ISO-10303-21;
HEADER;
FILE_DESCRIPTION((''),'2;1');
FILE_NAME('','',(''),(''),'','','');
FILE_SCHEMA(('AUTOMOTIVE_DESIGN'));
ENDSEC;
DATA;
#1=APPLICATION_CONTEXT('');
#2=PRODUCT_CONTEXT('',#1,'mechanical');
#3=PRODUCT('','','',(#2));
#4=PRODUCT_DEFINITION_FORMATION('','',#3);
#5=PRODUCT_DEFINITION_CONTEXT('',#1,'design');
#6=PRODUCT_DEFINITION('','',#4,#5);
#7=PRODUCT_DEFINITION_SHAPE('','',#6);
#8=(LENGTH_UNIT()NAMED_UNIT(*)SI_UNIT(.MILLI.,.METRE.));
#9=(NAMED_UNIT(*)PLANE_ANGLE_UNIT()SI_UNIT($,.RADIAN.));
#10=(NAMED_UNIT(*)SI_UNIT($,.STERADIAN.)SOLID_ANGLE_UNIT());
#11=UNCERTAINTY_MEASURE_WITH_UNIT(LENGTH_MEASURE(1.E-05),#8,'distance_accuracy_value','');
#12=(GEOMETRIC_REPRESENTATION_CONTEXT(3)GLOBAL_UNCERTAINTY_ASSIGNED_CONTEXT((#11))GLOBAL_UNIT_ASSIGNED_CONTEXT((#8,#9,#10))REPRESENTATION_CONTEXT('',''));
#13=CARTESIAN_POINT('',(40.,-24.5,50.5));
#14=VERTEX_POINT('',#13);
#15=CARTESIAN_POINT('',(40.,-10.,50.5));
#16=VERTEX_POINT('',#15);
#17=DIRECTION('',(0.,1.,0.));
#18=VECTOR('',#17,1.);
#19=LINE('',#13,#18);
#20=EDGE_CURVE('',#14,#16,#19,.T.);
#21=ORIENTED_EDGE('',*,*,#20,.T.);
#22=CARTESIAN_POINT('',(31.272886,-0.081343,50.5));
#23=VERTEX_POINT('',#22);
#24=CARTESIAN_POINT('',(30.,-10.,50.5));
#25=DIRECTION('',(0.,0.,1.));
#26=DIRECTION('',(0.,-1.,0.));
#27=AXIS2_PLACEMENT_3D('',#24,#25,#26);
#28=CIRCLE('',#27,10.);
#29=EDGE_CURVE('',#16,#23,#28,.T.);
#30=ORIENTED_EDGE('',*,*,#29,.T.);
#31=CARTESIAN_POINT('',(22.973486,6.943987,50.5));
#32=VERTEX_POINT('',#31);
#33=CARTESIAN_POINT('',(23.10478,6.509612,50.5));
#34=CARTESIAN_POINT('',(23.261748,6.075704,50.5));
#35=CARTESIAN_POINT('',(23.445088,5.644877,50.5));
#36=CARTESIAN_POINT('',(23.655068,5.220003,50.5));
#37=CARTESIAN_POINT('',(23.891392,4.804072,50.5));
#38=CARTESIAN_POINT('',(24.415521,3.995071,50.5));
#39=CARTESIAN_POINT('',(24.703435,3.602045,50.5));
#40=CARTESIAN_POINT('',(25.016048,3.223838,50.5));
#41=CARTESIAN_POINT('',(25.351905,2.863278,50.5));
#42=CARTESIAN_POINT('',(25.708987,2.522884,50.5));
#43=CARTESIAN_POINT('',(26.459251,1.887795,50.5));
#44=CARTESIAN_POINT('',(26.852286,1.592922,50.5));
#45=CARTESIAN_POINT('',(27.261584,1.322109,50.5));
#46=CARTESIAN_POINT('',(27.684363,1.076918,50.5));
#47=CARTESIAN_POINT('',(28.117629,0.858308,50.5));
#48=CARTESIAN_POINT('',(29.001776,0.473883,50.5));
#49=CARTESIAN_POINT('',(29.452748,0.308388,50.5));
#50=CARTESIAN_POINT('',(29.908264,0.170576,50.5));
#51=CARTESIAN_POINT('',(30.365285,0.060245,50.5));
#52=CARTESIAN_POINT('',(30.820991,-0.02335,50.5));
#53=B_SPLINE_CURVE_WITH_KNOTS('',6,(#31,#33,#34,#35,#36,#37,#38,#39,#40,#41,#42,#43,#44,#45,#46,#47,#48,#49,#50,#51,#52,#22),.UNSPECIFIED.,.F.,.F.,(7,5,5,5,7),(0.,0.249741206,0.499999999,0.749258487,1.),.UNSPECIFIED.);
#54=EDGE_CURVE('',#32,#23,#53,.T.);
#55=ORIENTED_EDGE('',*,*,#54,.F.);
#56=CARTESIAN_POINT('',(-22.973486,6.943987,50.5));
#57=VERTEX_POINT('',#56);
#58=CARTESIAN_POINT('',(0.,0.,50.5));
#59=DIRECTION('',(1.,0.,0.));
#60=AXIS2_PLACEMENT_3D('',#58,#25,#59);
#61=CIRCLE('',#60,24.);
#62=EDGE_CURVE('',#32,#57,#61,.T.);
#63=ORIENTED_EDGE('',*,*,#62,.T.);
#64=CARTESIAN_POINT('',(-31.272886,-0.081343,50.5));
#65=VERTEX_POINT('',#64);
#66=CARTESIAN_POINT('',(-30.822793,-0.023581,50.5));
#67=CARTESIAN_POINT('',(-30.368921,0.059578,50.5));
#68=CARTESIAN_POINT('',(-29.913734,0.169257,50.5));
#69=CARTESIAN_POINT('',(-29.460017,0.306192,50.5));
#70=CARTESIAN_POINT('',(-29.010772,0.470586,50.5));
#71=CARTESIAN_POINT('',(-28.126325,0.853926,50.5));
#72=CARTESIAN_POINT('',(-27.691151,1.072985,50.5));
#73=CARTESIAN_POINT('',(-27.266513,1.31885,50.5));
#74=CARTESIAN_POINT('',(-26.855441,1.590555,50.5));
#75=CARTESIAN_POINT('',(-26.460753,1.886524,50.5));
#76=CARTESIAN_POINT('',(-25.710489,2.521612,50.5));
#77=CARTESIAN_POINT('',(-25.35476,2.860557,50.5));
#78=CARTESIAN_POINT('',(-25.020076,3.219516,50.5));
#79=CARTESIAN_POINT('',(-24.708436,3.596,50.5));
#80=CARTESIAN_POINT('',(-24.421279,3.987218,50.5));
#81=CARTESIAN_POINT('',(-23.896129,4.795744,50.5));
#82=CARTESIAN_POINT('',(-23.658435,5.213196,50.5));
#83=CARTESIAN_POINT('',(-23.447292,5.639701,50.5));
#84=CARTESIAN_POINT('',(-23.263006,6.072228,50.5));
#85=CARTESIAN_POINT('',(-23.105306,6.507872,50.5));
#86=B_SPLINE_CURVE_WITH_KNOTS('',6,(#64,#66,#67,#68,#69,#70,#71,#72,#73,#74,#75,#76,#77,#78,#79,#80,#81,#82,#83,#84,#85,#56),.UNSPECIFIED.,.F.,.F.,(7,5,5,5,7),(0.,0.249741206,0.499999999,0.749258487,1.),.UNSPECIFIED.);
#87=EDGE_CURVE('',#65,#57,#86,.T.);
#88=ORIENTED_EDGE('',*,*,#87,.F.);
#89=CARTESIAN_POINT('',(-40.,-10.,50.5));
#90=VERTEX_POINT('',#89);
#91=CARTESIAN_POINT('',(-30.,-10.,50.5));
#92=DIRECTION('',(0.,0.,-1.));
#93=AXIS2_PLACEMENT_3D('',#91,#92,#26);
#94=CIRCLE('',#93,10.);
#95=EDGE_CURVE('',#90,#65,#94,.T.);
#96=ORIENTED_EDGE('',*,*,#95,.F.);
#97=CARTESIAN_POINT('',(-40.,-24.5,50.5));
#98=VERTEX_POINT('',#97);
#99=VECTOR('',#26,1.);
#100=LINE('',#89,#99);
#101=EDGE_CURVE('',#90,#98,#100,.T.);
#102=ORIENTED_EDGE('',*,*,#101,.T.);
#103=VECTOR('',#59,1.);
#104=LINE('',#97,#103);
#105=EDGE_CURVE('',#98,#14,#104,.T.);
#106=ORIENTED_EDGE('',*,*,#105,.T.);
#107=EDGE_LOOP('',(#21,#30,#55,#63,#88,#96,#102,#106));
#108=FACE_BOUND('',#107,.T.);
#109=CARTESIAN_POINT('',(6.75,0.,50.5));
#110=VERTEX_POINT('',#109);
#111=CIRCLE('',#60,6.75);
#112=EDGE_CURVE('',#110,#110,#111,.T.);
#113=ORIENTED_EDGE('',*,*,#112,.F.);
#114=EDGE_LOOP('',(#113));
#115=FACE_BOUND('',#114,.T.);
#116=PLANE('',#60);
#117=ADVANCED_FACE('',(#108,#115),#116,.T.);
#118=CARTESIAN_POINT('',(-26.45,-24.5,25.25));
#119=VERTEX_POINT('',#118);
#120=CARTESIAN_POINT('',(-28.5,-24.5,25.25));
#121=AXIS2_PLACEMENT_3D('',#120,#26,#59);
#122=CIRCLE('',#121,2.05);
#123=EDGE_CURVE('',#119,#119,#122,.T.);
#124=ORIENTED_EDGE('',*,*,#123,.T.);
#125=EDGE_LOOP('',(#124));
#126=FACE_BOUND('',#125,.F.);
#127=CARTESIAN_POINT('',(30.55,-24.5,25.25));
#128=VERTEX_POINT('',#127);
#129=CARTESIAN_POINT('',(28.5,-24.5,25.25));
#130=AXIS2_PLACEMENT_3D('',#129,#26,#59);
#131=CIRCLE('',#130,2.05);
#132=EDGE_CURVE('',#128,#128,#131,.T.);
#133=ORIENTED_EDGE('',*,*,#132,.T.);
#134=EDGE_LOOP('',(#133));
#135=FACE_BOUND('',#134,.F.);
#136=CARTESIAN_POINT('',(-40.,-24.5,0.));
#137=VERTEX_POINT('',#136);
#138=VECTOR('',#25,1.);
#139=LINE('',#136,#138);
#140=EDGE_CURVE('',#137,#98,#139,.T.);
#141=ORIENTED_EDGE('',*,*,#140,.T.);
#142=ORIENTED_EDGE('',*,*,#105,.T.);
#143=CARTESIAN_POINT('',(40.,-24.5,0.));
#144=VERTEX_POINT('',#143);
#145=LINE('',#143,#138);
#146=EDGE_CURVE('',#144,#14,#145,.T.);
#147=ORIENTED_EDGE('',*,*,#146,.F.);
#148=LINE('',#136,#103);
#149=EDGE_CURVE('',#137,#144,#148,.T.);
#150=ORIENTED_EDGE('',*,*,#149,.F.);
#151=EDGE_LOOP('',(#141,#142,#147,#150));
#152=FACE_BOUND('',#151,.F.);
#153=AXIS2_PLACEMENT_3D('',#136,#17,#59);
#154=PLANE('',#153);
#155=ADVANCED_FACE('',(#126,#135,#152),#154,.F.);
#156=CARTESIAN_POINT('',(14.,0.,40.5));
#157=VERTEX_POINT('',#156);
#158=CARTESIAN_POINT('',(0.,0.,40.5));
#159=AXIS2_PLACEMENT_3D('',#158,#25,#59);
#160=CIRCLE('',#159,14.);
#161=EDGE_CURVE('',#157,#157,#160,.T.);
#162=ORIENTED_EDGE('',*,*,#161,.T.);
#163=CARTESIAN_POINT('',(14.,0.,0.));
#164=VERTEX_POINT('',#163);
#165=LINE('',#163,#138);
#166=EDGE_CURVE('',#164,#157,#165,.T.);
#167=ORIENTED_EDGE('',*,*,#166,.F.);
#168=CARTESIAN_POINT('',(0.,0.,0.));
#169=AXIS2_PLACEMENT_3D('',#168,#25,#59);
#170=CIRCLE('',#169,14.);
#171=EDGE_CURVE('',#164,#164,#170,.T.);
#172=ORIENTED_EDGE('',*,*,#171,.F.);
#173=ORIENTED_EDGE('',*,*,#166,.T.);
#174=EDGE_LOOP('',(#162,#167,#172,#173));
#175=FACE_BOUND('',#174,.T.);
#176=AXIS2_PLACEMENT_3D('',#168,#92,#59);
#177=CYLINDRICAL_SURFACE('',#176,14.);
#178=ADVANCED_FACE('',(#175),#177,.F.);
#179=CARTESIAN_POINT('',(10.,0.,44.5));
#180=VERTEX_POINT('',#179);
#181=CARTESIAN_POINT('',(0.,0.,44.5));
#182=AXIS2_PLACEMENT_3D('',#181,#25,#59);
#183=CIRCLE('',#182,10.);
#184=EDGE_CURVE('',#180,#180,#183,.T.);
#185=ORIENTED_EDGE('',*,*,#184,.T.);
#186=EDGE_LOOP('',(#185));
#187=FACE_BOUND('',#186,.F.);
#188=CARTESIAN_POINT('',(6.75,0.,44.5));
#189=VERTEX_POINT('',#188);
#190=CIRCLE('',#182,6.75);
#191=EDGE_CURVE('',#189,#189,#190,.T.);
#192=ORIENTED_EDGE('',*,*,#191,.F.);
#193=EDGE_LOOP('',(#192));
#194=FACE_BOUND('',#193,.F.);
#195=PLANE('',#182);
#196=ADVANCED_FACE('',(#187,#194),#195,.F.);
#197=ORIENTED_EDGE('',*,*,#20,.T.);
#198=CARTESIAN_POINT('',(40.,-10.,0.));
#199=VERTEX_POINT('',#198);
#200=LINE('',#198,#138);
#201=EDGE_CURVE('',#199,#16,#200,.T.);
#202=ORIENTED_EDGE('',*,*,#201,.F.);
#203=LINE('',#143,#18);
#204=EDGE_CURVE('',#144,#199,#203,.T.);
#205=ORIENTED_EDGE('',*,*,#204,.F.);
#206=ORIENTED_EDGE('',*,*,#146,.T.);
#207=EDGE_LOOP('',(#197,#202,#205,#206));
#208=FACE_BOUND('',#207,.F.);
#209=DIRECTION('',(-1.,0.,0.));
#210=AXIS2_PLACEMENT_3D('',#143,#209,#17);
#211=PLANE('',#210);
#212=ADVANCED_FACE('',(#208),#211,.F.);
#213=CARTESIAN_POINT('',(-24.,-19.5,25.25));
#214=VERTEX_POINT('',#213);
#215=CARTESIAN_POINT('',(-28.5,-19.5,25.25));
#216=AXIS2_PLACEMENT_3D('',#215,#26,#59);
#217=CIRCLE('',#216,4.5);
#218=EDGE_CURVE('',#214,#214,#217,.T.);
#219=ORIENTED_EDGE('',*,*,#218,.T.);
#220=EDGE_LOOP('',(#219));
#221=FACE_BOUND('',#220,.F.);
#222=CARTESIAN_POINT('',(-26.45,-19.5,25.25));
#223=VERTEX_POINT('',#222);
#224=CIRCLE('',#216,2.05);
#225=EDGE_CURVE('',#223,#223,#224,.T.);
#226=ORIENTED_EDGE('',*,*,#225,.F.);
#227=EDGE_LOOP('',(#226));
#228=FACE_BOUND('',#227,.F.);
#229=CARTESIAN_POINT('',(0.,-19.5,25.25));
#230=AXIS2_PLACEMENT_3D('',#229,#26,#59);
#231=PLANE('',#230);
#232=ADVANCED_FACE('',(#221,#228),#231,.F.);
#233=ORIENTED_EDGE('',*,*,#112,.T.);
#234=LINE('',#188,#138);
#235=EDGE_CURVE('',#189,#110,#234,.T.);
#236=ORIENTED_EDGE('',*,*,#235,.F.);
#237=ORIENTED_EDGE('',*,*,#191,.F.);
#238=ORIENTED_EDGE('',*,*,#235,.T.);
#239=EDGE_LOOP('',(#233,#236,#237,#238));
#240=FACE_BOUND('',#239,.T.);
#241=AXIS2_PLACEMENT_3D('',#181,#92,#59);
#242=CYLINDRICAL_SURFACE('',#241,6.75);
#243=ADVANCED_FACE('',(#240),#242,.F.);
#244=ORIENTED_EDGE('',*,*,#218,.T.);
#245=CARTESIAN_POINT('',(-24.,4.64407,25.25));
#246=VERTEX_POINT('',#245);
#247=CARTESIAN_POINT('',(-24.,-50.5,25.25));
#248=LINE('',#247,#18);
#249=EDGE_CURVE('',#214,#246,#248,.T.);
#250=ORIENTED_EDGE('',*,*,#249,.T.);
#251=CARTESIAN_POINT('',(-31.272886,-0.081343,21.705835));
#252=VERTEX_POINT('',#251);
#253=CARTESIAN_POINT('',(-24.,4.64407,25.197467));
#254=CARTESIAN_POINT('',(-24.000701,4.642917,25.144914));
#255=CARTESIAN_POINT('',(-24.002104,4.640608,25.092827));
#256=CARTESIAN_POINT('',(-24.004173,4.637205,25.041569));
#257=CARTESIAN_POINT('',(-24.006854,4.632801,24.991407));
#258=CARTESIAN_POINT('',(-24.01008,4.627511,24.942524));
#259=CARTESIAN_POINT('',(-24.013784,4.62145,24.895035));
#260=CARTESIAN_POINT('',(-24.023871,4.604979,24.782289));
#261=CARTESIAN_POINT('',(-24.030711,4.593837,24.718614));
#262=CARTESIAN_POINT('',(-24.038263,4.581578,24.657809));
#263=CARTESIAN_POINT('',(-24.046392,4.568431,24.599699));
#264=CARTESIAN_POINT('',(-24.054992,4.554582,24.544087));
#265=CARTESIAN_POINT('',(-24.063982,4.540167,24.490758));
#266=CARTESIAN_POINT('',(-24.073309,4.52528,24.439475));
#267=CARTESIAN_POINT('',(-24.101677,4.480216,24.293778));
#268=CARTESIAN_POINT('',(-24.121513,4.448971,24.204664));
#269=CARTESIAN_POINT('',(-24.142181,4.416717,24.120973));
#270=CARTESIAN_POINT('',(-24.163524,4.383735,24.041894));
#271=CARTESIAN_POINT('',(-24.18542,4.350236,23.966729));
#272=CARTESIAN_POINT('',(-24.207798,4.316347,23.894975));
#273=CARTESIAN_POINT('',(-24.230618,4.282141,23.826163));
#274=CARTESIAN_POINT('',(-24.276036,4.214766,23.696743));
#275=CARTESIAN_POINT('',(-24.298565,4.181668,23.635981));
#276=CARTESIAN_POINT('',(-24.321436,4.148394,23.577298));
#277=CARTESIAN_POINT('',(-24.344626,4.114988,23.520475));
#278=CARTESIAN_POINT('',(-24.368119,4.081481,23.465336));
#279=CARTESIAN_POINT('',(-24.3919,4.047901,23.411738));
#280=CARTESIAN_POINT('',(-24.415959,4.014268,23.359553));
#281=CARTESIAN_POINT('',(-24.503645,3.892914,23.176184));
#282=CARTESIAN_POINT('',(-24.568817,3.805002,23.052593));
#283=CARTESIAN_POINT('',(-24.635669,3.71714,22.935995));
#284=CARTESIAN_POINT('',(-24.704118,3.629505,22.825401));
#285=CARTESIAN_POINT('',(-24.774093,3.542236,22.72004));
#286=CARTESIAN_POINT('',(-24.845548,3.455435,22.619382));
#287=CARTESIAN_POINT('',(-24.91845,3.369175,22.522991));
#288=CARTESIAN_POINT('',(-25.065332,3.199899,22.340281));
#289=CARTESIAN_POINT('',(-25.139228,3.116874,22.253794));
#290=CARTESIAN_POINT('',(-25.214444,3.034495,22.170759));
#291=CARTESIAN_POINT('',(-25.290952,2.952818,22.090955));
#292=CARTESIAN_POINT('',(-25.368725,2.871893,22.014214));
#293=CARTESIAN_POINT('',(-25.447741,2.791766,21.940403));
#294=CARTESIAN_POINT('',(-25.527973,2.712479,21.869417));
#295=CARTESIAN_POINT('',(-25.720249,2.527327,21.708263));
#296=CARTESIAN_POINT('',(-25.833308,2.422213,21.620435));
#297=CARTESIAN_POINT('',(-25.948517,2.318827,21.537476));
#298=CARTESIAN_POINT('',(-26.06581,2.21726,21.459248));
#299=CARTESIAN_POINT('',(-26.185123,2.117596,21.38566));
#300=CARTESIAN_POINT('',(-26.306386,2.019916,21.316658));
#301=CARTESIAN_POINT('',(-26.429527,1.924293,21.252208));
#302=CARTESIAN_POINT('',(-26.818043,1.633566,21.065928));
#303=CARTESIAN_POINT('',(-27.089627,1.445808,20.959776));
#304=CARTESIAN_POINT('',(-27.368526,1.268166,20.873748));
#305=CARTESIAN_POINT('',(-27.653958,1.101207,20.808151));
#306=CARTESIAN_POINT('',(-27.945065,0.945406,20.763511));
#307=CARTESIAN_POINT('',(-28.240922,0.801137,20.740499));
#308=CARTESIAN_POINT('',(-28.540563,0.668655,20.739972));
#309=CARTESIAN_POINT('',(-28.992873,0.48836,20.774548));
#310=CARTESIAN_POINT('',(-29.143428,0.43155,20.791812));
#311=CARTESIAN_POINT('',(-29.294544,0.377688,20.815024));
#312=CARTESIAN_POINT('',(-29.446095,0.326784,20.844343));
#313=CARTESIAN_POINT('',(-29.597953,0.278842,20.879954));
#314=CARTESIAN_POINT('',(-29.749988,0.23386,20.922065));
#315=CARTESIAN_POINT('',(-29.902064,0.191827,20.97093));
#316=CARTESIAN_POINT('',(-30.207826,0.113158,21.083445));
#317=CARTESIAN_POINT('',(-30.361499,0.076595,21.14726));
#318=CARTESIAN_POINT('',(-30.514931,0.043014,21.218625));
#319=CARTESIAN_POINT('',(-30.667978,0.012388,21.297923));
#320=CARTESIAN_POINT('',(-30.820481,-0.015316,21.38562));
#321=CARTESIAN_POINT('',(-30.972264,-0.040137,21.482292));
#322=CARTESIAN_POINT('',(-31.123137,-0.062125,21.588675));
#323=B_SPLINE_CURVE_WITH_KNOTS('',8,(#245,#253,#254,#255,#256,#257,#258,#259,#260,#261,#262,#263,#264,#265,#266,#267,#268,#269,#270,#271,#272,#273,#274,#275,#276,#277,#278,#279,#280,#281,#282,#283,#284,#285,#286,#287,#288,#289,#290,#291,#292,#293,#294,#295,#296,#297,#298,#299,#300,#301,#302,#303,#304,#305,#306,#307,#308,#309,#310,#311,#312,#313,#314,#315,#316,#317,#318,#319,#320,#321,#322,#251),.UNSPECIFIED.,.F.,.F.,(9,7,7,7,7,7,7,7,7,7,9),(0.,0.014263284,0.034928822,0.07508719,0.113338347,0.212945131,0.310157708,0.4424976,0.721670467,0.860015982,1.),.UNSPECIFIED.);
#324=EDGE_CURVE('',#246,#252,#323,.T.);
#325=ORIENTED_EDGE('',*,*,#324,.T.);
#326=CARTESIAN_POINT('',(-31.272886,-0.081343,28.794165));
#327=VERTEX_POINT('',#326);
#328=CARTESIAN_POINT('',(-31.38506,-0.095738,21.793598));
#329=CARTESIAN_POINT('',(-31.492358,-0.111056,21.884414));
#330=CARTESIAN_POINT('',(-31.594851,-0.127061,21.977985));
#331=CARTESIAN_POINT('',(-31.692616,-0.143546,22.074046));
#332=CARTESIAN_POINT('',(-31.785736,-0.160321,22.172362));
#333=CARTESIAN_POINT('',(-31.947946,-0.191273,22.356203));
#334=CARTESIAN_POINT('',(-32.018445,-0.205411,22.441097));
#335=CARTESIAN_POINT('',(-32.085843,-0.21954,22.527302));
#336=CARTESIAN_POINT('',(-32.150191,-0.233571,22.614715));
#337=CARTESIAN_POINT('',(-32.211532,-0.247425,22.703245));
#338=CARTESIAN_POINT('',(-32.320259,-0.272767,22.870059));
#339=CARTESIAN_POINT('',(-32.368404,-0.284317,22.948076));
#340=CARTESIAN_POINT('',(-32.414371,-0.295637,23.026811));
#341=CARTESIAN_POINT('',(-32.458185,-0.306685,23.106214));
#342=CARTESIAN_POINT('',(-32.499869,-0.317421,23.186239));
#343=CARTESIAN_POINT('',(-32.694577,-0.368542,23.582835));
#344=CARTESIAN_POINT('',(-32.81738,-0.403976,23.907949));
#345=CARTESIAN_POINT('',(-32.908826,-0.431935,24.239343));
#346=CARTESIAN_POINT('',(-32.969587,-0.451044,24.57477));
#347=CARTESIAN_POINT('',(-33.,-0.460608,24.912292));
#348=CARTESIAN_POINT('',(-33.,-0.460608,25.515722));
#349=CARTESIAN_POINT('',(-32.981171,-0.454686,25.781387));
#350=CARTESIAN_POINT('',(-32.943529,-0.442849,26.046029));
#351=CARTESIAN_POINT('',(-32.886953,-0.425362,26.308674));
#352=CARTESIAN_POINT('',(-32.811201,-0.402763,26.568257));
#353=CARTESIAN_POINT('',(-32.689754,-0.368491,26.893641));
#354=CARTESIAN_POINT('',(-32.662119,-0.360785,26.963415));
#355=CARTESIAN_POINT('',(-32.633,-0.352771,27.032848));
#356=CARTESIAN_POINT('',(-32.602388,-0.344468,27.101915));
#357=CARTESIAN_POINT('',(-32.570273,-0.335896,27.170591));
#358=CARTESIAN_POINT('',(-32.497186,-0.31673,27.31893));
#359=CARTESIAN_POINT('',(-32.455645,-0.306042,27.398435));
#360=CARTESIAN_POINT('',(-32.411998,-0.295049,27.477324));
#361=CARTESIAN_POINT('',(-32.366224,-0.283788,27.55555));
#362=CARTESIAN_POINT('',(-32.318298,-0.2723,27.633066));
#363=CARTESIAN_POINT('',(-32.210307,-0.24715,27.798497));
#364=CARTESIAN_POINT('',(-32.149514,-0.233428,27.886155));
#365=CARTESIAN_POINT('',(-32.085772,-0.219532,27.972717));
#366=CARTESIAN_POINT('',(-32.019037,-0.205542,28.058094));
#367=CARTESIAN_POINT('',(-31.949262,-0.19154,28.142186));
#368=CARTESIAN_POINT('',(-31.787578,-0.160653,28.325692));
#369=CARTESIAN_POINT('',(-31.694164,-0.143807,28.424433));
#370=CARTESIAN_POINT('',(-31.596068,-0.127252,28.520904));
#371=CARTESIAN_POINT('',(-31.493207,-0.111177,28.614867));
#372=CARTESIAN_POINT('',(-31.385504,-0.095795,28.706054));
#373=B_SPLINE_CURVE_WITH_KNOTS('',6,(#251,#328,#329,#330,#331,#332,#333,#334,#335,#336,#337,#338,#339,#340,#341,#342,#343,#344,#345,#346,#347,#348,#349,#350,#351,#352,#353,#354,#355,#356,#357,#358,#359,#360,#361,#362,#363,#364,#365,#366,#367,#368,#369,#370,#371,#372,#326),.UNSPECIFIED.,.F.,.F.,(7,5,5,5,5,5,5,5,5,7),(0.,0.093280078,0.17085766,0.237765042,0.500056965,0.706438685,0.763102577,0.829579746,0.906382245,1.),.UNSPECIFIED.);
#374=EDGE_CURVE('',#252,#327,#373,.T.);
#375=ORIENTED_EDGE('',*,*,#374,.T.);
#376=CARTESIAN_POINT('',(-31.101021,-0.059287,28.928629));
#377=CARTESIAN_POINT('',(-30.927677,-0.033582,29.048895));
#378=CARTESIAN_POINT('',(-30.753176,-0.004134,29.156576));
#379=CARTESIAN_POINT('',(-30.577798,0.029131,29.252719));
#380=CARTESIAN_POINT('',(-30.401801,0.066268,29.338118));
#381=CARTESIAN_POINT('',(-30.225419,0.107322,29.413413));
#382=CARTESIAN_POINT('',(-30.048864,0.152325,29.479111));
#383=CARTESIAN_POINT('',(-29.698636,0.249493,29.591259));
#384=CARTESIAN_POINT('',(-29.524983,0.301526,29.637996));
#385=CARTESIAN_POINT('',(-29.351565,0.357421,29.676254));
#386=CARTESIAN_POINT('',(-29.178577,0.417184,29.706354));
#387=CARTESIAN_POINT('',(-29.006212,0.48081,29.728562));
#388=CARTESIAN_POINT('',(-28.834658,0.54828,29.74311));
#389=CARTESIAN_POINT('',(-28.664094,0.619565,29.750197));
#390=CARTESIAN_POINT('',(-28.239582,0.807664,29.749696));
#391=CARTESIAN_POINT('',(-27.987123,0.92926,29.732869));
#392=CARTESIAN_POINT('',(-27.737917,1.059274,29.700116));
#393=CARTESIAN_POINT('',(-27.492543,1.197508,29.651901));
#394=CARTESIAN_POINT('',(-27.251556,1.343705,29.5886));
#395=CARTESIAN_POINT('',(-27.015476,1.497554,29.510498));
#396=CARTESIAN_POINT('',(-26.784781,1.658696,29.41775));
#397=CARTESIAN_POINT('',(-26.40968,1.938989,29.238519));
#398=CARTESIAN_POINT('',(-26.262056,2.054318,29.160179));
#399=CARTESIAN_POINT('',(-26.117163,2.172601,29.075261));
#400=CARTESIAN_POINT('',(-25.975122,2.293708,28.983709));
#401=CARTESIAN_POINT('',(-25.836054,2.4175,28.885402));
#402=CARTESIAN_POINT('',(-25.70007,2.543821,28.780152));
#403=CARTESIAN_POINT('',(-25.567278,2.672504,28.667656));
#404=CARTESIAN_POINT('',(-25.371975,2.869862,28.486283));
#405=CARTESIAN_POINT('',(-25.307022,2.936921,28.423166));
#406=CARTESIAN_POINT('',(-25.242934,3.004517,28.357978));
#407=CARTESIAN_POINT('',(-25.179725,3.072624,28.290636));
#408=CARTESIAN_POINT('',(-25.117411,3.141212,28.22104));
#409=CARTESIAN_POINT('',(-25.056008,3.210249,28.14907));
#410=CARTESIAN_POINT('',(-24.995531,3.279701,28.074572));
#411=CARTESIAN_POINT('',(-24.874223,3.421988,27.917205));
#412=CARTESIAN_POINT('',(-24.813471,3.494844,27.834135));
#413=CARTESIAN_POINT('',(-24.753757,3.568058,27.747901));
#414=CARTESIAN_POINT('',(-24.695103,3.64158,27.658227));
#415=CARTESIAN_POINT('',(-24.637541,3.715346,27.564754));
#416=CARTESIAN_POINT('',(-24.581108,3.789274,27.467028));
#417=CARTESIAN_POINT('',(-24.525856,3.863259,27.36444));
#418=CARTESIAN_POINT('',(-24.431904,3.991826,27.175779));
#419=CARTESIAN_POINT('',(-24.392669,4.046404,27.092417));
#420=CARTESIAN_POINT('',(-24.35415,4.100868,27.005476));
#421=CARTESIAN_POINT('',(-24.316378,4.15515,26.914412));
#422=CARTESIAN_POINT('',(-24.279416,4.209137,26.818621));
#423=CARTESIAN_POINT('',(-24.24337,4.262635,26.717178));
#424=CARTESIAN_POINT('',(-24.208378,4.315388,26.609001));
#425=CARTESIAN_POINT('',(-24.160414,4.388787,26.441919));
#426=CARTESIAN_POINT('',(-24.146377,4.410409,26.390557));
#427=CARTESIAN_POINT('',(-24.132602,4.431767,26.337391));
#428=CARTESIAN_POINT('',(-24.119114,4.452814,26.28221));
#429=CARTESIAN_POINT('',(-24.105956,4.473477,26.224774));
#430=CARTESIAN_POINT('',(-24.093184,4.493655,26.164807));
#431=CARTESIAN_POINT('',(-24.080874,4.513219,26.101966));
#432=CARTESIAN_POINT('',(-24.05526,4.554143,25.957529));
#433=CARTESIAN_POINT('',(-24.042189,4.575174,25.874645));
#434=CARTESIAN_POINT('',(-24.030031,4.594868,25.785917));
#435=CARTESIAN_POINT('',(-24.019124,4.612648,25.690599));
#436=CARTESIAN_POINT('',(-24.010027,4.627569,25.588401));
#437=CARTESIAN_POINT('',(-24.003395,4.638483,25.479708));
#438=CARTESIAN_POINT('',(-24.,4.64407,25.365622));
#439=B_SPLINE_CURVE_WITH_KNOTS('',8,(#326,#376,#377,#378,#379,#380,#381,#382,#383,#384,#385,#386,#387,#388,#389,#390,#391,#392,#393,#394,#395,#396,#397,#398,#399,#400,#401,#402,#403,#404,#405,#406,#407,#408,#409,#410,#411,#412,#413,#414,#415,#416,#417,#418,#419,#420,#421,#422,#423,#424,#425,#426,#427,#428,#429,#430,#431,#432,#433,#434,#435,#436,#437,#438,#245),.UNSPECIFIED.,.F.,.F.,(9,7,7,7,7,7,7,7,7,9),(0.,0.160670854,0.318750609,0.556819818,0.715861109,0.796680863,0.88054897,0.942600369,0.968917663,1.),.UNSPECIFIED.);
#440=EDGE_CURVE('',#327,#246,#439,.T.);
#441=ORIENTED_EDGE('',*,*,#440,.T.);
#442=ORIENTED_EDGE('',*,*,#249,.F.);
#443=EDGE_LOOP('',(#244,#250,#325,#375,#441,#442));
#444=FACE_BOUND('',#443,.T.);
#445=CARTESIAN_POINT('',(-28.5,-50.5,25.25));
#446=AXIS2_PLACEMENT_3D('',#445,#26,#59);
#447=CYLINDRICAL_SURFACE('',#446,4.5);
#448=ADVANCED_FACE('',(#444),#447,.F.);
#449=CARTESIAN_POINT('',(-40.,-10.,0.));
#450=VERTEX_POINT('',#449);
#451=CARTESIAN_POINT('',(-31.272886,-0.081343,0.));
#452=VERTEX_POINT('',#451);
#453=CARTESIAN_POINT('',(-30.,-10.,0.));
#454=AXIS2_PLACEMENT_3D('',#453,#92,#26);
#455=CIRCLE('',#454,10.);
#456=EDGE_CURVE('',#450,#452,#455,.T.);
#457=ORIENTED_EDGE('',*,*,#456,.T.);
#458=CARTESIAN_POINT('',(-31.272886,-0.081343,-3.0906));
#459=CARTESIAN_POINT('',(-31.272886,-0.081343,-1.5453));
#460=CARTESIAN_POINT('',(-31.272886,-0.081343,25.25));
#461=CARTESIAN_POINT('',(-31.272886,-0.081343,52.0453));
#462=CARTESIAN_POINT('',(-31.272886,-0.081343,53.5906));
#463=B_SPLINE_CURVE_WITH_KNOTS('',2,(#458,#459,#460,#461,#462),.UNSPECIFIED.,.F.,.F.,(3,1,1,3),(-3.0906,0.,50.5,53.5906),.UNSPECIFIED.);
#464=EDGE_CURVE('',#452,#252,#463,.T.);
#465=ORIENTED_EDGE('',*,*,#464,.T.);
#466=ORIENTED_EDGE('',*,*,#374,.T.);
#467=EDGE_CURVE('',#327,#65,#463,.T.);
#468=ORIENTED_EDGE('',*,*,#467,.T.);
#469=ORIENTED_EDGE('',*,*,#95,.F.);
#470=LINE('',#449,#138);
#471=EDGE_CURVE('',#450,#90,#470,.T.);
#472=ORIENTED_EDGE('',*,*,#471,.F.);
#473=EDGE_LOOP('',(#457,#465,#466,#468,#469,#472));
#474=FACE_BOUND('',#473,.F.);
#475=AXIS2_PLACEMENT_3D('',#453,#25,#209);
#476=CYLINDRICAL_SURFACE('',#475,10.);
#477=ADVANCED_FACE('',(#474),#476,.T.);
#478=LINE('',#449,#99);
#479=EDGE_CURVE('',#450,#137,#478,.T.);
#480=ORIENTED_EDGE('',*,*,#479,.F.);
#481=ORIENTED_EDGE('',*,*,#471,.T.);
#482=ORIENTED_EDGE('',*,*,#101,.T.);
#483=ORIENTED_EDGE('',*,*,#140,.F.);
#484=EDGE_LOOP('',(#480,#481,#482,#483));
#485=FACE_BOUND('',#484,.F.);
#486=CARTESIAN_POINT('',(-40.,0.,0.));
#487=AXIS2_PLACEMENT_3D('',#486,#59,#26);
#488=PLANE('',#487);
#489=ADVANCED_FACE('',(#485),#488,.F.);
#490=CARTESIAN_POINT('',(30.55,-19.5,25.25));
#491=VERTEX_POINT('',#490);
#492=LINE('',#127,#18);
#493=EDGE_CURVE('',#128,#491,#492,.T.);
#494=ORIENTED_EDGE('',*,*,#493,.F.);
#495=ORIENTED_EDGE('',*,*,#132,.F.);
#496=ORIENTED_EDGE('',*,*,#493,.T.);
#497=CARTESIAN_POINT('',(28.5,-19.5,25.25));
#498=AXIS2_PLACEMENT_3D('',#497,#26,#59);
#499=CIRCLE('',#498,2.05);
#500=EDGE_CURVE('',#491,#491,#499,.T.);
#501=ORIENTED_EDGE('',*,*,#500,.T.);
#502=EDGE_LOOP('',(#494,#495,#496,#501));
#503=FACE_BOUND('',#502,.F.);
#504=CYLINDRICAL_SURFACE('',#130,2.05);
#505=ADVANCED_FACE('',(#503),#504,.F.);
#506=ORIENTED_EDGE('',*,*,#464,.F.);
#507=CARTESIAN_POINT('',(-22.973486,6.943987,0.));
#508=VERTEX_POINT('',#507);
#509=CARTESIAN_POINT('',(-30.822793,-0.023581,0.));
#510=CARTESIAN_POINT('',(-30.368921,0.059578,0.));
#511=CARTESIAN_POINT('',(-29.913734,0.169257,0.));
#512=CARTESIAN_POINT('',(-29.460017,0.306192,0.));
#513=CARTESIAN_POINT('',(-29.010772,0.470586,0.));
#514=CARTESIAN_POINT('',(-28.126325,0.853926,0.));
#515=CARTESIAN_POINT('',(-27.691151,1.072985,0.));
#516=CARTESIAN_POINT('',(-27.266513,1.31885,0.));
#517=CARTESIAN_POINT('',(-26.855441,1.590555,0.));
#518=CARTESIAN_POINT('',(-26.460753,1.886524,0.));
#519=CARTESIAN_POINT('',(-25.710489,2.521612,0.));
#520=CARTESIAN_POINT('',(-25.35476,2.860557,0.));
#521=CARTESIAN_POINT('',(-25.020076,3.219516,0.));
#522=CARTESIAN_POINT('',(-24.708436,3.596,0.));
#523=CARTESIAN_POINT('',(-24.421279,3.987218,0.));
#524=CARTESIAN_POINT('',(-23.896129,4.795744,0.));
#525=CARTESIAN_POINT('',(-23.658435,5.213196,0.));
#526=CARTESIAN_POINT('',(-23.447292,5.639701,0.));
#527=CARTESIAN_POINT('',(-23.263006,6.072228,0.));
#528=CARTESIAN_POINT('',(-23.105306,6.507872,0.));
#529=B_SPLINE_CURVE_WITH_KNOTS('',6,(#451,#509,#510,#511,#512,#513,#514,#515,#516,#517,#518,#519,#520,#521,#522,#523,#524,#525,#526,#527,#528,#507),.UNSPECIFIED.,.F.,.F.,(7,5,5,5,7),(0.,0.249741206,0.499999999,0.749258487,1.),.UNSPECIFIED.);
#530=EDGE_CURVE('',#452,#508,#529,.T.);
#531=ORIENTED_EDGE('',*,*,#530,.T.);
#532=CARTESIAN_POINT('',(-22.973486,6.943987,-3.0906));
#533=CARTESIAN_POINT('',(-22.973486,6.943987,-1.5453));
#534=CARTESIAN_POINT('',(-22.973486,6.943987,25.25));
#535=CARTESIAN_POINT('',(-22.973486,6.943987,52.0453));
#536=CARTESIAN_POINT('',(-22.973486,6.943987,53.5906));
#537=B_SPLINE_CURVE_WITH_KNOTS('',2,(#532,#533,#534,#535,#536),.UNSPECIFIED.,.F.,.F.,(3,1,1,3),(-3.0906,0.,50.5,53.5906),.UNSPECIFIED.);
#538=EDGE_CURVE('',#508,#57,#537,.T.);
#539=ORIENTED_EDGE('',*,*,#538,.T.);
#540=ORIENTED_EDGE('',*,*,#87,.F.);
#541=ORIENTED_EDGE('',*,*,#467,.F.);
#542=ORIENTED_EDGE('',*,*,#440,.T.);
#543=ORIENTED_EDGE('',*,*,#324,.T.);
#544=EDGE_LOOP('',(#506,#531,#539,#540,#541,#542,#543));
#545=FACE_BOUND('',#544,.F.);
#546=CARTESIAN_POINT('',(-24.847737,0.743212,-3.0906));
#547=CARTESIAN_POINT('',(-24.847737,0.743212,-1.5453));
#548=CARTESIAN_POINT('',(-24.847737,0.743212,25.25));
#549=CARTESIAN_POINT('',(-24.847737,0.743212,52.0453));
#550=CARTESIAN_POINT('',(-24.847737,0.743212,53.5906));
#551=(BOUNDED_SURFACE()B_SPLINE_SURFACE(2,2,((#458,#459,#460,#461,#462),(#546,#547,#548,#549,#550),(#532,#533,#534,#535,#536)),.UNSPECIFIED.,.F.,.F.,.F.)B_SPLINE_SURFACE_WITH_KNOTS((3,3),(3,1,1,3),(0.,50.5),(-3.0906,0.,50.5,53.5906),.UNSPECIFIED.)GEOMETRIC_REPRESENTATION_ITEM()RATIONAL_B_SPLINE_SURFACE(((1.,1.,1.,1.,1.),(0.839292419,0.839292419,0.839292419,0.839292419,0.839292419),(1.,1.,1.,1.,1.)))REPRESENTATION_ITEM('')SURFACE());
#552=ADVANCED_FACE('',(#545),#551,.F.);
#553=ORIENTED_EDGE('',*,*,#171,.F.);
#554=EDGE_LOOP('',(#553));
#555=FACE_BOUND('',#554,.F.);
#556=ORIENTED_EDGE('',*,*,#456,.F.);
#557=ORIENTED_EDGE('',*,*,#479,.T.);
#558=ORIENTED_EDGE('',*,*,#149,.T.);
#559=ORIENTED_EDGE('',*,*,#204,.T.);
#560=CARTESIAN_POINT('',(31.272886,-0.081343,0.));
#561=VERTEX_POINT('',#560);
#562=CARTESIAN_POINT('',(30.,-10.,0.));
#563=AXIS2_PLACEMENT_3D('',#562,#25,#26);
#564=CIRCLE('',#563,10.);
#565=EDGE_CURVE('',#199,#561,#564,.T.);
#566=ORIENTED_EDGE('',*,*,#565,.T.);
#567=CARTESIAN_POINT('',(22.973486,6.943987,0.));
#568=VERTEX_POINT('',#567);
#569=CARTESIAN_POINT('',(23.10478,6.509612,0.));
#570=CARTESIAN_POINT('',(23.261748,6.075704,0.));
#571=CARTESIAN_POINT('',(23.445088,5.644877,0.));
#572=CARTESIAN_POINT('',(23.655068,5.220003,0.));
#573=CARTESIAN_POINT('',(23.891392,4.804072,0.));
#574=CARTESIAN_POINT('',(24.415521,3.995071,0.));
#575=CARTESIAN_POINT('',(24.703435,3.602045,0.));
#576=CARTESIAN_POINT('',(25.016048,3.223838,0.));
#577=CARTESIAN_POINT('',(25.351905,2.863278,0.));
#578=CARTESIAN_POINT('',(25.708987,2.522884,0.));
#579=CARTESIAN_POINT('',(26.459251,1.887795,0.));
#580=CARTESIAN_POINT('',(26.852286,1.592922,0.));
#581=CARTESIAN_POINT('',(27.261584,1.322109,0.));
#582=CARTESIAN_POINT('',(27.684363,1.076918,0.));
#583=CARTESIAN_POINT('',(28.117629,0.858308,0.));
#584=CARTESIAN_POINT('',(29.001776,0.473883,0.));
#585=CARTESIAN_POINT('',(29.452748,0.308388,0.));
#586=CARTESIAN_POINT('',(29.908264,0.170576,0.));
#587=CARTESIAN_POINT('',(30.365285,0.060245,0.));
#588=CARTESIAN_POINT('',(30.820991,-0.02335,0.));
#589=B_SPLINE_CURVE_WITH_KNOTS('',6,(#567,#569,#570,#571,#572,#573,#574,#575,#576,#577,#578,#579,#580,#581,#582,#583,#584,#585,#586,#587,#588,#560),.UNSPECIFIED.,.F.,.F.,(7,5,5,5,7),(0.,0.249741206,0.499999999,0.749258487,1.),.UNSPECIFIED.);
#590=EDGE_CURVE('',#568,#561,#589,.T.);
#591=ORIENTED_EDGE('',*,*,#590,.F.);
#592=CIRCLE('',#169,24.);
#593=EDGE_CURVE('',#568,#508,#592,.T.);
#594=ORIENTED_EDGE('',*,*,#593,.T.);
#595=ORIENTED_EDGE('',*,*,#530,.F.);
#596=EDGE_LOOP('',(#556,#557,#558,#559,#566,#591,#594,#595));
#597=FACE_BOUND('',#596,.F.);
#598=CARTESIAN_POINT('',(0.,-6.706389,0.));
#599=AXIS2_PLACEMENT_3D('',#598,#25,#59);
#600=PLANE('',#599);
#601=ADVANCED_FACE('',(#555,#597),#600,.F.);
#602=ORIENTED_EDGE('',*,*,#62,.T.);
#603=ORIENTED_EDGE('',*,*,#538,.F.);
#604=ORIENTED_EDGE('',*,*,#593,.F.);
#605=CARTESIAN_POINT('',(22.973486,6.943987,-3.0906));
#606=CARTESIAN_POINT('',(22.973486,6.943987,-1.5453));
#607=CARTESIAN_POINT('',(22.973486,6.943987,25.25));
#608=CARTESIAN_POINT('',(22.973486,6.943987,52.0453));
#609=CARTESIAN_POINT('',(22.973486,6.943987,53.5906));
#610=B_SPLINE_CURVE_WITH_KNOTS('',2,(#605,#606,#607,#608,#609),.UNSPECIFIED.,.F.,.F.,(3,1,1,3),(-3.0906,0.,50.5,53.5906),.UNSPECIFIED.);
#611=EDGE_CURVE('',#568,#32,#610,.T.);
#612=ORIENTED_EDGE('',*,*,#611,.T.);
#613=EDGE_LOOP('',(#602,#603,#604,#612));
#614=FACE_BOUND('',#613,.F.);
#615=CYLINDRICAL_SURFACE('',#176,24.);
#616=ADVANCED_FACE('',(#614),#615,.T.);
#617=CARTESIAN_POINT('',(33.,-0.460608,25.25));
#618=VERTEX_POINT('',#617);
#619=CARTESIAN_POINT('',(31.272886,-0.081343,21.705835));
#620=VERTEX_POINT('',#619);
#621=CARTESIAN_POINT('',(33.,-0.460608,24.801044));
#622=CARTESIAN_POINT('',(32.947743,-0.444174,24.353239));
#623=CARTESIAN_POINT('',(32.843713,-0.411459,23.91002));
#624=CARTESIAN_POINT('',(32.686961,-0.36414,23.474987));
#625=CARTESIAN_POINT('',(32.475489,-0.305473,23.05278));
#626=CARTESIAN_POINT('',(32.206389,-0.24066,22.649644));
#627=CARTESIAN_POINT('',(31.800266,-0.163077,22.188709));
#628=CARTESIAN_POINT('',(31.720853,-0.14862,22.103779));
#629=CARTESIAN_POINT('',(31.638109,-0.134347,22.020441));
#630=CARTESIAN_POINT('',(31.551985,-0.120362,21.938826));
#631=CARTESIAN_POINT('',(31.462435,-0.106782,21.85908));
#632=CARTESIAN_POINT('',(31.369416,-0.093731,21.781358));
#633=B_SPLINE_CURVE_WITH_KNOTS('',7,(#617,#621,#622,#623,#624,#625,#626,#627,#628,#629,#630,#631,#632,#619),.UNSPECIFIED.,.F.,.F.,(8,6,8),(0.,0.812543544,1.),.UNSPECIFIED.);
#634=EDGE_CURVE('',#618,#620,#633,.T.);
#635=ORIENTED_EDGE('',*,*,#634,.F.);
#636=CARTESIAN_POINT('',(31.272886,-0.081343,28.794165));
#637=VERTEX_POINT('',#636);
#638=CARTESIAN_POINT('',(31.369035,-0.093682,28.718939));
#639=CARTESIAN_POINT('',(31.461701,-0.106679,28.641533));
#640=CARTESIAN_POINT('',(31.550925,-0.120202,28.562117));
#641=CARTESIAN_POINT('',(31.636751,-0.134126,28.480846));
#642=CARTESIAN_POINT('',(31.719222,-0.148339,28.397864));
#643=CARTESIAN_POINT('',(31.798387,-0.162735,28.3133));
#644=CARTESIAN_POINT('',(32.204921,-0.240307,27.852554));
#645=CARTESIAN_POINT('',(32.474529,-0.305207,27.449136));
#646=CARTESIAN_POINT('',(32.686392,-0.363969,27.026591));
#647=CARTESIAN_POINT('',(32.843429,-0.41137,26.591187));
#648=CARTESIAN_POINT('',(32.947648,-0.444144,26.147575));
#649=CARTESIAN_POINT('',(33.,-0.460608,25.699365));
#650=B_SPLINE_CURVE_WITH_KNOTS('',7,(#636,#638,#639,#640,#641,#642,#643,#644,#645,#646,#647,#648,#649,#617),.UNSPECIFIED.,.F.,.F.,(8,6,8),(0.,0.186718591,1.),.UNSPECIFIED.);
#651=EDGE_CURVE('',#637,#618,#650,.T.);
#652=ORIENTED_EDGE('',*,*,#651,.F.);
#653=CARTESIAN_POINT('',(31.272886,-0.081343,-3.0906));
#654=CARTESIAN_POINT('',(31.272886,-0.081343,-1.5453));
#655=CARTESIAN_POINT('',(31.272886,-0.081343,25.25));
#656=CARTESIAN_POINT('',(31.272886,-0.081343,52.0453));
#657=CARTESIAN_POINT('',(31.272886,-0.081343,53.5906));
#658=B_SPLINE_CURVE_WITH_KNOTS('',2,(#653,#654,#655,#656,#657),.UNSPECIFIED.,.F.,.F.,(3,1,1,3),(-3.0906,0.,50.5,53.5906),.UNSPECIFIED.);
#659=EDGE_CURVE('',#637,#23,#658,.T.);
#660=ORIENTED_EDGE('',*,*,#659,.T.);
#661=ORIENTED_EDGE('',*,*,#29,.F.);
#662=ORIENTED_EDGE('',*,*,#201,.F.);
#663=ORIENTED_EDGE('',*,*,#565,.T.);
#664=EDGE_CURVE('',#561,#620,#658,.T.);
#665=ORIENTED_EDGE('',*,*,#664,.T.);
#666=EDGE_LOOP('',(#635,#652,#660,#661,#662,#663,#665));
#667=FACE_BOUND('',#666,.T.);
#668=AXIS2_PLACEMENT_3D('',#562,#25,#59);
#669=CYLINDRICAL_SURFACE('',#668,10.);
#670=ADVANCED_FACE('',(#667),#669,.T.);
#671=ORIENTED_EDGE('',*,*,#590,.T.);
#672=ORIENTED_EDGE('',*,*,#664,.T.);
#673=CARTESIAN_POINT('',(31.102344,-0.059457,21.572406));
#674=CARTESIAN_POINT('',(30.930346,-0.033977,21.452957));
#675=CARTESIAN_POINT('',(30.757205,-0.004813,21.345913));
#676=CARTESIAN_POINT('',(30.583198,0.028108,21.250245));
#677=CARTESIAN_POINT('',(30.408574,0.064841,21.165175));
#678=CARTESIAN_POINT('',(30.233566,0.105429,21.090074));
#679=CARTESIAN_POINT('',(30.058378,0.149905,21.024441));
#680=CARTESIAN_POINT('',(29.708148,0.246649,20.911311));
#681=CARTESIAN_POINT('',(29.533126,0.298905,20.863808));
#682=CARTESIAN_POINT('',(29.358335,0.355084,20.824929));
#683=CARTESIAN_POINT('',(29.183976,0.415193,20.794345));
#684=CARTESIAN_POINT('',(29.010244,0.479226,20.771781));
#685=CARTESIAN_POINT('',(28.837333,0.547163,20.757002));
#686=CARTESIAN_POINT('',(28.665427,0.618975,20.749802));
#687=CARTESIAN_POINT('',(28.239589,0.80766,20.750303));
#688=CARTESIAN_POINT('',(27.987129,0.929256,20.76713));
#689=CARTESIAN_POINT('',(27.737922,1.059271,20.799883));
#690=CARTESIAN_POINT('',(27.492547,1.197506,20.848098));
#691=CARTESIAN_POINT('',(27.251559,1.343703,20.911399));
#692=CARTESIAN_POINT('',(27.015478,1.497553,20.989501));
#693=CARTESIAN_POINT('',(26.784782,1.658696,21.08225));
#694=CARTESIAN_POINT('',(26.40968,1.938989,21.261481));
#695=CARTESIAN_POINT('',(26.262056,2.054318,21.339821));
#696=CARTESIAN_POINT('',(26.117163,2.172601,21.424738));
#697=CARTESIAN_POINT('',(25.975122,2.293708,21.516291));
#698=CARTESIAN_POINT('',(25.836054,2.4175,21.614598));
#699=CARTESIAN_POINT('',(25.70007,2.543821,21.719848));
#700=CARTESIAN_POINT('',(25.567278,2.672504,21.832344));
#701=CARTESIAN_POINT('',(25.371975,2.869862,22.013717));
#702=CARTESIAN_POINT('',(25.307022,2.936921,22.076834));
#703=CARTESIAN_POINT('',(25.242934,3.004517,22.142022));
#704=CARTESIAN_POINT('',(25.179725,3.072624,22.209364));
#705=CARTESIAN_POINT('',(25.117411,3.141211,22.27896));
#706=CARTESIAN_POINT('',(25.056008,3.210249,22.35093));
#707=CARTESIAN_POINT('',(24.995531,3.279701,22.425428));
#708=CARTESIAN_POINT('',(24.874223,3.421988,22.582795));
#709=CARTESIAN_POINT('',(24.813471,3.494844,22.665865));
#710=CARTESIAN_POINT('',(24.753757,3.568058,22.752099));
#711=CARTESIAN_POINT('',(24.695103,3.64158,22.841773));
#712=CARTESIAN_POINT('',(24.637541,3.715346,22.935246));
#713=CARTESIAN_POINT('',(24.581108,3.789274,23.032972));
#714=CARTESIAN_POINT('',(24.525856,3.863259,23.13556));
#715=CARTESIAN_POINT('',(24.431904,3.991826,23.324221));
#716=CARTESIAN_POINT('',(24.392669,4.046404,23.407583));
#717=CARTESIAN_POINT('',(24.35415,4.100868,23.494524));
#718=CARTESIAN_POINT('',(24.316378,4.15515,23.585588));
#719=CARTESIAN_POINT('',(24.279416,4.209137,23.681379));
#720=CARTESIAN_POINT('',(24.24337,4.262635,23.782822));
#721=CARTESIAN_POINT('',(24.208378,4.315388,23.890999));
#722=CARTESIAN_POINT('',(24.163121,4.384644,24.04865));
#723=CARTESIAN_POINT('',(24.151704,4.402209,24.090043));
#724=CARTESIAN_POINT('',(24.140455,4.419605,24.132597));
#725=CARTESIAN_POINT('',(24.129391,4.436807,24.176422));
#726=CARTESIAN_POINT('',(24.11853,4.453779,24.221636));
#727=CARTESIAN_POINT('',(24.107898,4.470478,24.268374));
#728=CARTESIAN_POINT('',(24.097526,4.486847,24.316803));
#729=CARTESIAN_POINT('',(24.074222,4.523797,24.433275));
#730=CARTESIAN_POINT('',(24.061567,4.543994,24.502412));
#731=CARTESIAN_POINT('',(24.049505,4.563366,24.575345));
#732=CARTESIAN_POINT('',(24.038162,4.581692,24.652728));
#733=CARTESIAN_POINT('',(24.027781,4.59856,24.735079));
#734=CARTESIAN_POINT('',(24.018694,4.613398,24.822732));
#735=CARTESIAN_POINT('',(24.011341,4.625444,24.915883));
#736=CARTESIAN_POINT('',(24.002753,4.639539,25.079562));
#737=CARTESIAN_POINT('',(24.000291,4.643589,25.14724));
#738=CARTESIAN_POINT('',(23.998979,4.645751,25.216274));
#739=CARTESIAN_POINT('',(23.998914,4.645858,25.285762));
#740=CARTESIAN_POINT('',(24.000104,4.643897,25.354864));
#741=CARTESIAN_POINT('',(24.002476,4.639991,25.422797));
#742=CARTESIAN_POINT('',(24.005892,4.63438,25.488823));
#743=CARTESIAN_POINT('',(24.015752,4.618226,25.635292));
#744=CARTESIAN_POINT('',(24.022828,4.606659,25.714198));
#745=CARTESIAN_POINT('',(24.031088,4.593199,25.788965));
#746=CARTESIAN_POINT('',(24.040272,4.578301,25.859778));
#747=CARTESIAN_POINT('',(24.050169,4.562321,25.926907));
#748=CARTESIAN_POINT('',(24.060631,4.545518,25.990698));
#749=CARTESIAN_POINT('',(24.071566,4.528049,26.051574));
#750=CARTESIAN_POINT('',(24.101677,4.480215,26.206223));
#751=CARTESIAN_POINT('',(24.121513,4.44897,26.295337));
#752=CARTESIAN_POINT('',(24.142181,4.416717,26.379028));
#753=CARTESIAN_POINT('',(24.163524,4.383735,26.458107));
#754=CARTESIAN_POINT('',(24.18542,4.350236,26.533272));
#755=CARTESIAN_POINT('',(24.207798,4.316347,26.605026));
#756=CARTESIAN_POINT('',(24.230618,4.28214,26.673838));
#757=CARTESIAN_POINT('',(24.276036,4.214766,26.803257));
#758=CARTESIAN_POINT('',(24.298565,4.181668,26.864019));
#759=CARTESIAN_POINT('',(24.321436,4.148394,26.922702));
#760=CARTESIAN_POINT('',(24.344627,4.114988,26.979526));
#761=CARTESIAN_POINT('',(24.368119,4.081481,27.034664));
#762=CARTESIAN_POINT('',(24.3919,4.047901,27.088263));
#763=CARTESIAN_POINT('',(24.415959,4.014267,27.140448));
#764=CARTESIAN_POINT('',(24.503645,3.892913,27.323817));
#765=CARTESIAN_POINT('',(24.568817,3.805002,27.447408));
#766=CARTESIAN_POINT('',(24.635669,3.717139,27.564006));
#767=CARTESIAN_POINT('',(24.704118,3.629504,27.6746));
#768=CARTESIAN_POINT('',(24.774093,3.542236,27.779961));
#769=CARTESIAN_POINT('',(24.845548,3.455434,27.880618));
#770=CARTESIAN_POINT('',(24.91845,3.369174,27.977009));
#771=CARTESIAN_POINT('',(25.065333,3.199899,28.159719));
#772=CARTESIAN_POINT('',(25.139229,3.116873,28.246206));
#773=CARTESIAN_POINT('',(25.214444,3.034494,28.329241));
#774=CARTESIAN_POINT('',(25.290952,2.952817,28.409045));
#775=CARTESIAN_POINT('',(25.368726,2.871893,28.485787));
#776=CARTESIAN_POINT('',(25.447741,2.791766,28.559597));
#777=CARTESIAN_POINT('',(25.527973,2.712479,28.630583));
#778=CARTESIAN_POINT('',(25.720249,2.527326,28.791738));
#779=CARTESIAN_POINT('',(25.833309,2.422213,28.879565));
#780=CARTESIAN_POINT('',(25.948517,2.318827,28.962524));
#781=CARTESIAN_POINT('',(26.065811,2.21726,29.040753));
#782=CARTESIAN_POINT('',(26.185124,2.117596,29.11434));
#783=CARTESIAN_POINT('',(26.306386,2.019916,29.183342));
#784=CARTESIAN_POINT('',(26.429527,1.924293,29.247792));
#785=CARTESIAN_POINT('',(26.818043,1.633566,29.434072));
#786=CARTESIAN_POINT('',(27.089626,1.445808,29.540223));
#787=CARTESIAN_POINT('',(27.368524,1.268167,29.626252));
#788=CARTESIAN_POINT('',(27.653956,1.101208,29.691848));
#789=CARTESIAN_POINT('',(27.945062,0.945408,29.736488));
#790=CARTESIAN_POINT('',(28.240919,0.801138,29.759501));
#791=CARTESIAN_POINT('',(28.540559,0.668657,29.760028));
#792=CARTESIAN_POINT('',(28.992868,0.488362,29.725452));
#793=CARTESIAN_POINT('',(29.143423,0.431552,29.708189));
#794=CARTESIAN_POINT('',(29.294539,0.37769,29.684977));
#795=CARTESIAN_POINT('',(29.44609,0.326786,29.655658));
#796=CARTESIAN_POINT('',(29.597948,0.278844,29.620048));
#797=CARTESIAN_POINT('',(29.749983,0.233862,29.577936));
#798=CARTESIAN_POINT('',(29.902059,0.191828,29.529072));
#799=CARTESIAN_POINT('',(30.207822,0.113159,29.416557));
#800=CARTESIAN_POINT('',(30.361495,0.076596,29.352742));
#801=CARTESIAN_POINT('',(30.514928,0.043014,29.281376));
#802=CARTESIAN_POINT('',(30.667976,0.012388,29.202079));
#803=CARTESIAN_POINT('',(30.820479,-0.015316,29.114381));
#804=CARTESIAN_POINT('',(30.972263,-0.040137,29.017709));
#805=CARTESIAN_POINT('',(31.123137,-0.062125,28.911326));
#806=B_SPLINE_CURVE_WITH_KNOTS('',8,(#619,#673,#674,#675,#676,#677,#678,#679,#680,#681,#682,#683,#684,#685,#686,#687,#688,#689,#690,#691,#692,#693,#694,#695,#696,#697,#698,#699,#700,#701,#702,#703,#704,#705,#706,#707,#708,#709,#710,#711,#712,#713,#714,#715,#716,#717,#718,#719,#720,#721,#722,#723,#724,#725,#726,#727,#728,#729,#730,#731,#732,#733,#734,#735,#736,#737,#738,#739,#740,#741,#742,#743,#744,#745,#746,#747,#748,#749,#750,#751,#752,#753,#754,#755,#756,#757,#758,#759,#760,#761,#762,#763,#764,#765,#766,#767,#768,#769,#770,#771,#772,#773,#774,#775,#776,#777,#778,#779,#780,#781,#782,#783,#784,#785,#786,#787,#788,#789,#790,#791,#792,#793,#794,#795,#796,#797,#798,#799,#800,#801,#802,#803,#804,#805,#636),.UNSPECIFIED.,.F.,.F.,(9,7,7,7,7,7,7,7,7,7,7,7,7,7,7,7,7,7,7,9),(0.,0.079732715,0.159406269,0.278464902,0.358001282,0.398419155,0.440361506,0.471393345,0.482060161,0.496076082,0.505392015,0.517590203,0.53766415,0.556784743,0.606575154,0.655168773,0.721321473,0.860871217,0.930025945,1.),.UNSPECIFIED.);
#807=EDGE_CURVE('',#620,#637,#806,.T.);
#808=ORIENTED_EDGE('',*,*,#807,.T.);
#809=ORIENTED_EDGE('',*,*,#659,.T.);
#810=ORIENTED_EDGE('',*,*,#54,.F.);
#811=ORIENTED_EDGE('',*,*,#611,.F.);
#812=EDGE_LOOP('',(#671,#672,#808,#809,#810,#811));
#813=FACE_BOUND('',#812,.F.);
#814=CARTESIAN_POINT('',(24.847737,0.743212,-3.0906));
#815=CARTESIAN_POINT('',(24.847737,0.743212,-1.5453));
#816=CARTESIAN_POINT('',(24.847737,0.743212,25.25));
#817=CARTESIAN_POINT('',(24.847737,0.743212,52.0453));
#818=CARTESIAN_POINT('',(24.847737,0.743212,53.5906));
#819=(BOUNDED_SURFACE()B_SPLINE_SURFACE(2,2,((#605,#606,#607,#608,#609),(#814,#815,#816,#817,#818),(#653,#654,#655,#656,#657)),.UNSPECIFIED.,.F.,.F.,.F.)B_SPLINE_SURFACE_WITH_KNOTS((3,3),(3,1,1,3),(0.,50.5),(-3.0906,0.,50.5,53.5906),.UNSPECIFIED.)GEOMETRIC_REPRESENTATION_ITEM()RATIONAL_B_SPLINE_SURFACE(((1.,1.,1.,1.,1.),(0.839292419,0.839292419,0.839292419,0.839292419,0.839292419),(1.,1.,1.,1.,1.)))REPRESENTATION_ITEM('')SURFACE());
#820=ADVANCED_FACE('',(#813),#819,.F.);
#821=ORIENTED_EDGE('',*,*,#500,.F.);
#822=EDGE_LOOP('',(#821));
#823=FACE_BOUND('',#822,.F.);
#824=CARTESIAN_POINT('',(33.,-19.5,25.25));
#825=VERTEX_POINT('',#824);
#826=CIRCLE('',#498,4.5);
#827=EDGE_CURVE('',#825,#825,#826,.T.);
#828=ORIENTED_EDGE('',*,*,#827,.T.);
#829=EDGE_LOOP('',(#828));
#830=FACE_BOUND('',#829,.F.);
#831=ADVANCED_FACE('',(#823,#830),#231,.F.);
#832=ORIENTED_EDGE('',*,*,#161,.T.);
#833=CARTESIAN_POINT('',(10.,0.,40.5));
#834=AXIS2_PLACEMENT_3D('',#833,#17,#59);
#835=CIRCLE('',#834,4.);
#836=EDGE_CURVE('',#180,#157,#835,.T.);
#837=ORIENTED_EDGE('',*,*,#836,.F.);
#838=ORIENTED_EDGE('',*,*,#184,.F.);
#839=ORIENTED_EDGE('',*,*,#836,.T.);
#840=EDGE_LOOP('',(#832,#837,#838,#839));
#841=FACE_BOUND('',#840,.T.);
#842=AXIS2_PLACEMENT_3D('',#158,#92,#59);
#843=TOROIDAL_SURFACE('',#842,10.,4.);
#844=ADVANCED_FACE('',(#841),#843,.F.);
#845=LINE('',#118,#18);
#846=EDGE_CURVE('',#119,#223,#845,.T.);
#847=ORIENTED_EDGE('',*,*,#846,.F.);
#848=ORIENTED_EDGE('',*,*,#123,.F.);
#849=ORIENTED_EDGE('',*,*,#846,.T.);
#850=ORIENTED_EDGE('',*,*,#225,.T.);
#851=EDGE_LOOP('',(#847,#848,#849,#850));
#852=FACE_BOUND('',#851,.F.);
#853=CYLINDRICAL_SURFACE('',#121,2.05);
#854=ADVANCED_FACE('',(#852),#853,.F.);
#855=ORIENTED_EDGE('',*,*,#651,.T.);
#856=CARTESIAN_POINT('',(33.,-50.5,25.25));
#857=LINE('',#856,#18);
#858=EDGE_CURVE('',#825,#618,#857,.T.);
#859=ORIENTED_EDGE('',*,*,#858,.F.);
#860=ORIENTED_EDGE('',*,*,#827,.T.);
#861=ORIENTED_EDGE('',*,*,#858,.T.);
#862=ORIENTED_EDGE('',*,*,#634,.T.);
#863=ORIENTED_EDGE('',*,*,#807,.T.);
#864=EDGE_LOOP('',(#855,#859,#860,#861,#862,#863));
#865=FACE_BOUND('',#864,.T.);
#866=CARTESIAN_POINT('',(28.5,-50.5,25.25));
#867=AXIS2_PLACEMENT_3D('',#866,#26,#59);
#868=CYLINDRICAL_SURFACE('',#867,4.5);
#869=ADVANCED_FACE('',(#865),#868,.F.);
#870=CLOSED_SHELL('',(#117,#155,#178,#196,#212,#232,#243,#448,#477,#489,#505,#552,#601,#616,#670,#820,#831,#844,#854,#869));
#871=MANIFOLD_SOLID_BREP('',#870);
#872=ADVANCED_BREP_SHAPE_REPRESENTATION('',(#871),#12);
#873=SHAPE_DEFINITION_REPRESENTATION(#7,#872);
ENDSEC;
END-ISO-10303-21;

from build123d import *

# Parameters (mm, degrees)
SKETCH1_R               = 14
BOSS_EXTRUDE1_DEPTH     = 50.5
BOSS_EXTRUDE3_START     = -6
SKETCH5_R               = 14
SKETCH5_R_2             = 6.75
BOSS_EXTRUDE3_DEPTH     = 6
FILLET3_R               = 4
FILLET1_R               = 10
FILLET2_R               = 10
CUT_EXTRUDE1_DEPTH      = 50.5
CUT_EXTRUDE1_DEPTH_BACK = 50.5
SKETCH2_R               = 4.5
SKETCH4_W               = 80
SKETCH4_H               = 50.5
SKETCH4_R               = 2.05
BOSS_EXTRUDE2_DEPTH     = 5


with BuildPart() as part:
    # Sketch1 → Boss-Extrude1 (new body)
    with BuildSketch(Plane.XY):
        with BuildLine():
            Line((-40, 0), (-40, -24.5))
            Line((-40, -24.5), (40, -24.5))
            Line((40, -24.5), (40, 0))
            Line((40, 0), (24, 0))
            ThreePointArc((24, 0), (0, 24), (-24, 0))
            Line((-24, 0), (-40, 0))
        make_face()
        Circle(SKETCH1_R, mode=Mode.SUBTRACT)
    extrude(amount=BOSS_EXTRUDE1_DEPTH)

    # Sketch5 → Boss-Extrude3 (add)
    with BuildSketch(Plane.XY.offset(50.5).offset(BOSS_EXTRUDE3_START)):
        Circle(SKETCH5_R)
        Circle(SKETCH5_R_2, mode=Mode.SUBTRACT)
    extrude(amount=BOSS_EXTRUDE3_DEPTH)

    # Fillet3
    fillet3_edges = [part.edges().sort_by_distance(p)[0] for p in [
        (-14, 0, 44.5),
    ]]
    fillet(fillet3_edges, radius=FILLET3_R)

    # Fillet1
    fillet1_edges = [part.edges().sort_by_distance(p)[0] for p in [
        (40, 0, 25.25),
        (-40, 0, 25.25),
    ]]
    fillet(fillet1_edges, radius=FILLET1_R)

    # Fillet2
    fillet2_edges = [part.edges().sort_by_distance(p)[0] for p in [
        (-24, 0, 25.25),
        (24, 0, 25.25),
    ]]
    fillet(fillet2_edges, radius=FILLET2_R)

    # Sketch2 → Cut-Extrude1 (cut, two sides: drawn at the far end of the back side and taken through both)
    with BuildSketch(Plane(origin=(0, 0, 0), x_dir=(1, 0, 0), z_dir=(0, 1, 0)).offset(-CUT_EXTRUDE1_DEPTH_BACK)):
        with Locations((28.5, -25.25)):
            Circle(SKETCH2_R)
        with Locations((-28.5, -25.25)):
            Circle(SKETCH2_R)
    extrude(amount=CUT_EXTRUDE1_DEPTH + CUT_EXTRUDE1_DEPTH_BACK, mode=Mode.SUBTRACT)

    # Sketch4 → Boss-Extrude2 (add)
    with BuildSketch(Plane.XZ.offset(24.5)):
        with Locations((0, 25.25)):
            Rectangle(SKETCH4_W, SKETCH4_H)
        with Locations((-28.5, 25.25)):
            Circle(SKETCH4_R, mode=Mode.SUBTRACT)
        with Locations((28.5, 25.25)):
            Circle(SKETCH4_R, mode=Mode.SUBTRACT)
    extrude(amount=-BOSS_EXTRUDE2_DEPTH)


solid = part.part
